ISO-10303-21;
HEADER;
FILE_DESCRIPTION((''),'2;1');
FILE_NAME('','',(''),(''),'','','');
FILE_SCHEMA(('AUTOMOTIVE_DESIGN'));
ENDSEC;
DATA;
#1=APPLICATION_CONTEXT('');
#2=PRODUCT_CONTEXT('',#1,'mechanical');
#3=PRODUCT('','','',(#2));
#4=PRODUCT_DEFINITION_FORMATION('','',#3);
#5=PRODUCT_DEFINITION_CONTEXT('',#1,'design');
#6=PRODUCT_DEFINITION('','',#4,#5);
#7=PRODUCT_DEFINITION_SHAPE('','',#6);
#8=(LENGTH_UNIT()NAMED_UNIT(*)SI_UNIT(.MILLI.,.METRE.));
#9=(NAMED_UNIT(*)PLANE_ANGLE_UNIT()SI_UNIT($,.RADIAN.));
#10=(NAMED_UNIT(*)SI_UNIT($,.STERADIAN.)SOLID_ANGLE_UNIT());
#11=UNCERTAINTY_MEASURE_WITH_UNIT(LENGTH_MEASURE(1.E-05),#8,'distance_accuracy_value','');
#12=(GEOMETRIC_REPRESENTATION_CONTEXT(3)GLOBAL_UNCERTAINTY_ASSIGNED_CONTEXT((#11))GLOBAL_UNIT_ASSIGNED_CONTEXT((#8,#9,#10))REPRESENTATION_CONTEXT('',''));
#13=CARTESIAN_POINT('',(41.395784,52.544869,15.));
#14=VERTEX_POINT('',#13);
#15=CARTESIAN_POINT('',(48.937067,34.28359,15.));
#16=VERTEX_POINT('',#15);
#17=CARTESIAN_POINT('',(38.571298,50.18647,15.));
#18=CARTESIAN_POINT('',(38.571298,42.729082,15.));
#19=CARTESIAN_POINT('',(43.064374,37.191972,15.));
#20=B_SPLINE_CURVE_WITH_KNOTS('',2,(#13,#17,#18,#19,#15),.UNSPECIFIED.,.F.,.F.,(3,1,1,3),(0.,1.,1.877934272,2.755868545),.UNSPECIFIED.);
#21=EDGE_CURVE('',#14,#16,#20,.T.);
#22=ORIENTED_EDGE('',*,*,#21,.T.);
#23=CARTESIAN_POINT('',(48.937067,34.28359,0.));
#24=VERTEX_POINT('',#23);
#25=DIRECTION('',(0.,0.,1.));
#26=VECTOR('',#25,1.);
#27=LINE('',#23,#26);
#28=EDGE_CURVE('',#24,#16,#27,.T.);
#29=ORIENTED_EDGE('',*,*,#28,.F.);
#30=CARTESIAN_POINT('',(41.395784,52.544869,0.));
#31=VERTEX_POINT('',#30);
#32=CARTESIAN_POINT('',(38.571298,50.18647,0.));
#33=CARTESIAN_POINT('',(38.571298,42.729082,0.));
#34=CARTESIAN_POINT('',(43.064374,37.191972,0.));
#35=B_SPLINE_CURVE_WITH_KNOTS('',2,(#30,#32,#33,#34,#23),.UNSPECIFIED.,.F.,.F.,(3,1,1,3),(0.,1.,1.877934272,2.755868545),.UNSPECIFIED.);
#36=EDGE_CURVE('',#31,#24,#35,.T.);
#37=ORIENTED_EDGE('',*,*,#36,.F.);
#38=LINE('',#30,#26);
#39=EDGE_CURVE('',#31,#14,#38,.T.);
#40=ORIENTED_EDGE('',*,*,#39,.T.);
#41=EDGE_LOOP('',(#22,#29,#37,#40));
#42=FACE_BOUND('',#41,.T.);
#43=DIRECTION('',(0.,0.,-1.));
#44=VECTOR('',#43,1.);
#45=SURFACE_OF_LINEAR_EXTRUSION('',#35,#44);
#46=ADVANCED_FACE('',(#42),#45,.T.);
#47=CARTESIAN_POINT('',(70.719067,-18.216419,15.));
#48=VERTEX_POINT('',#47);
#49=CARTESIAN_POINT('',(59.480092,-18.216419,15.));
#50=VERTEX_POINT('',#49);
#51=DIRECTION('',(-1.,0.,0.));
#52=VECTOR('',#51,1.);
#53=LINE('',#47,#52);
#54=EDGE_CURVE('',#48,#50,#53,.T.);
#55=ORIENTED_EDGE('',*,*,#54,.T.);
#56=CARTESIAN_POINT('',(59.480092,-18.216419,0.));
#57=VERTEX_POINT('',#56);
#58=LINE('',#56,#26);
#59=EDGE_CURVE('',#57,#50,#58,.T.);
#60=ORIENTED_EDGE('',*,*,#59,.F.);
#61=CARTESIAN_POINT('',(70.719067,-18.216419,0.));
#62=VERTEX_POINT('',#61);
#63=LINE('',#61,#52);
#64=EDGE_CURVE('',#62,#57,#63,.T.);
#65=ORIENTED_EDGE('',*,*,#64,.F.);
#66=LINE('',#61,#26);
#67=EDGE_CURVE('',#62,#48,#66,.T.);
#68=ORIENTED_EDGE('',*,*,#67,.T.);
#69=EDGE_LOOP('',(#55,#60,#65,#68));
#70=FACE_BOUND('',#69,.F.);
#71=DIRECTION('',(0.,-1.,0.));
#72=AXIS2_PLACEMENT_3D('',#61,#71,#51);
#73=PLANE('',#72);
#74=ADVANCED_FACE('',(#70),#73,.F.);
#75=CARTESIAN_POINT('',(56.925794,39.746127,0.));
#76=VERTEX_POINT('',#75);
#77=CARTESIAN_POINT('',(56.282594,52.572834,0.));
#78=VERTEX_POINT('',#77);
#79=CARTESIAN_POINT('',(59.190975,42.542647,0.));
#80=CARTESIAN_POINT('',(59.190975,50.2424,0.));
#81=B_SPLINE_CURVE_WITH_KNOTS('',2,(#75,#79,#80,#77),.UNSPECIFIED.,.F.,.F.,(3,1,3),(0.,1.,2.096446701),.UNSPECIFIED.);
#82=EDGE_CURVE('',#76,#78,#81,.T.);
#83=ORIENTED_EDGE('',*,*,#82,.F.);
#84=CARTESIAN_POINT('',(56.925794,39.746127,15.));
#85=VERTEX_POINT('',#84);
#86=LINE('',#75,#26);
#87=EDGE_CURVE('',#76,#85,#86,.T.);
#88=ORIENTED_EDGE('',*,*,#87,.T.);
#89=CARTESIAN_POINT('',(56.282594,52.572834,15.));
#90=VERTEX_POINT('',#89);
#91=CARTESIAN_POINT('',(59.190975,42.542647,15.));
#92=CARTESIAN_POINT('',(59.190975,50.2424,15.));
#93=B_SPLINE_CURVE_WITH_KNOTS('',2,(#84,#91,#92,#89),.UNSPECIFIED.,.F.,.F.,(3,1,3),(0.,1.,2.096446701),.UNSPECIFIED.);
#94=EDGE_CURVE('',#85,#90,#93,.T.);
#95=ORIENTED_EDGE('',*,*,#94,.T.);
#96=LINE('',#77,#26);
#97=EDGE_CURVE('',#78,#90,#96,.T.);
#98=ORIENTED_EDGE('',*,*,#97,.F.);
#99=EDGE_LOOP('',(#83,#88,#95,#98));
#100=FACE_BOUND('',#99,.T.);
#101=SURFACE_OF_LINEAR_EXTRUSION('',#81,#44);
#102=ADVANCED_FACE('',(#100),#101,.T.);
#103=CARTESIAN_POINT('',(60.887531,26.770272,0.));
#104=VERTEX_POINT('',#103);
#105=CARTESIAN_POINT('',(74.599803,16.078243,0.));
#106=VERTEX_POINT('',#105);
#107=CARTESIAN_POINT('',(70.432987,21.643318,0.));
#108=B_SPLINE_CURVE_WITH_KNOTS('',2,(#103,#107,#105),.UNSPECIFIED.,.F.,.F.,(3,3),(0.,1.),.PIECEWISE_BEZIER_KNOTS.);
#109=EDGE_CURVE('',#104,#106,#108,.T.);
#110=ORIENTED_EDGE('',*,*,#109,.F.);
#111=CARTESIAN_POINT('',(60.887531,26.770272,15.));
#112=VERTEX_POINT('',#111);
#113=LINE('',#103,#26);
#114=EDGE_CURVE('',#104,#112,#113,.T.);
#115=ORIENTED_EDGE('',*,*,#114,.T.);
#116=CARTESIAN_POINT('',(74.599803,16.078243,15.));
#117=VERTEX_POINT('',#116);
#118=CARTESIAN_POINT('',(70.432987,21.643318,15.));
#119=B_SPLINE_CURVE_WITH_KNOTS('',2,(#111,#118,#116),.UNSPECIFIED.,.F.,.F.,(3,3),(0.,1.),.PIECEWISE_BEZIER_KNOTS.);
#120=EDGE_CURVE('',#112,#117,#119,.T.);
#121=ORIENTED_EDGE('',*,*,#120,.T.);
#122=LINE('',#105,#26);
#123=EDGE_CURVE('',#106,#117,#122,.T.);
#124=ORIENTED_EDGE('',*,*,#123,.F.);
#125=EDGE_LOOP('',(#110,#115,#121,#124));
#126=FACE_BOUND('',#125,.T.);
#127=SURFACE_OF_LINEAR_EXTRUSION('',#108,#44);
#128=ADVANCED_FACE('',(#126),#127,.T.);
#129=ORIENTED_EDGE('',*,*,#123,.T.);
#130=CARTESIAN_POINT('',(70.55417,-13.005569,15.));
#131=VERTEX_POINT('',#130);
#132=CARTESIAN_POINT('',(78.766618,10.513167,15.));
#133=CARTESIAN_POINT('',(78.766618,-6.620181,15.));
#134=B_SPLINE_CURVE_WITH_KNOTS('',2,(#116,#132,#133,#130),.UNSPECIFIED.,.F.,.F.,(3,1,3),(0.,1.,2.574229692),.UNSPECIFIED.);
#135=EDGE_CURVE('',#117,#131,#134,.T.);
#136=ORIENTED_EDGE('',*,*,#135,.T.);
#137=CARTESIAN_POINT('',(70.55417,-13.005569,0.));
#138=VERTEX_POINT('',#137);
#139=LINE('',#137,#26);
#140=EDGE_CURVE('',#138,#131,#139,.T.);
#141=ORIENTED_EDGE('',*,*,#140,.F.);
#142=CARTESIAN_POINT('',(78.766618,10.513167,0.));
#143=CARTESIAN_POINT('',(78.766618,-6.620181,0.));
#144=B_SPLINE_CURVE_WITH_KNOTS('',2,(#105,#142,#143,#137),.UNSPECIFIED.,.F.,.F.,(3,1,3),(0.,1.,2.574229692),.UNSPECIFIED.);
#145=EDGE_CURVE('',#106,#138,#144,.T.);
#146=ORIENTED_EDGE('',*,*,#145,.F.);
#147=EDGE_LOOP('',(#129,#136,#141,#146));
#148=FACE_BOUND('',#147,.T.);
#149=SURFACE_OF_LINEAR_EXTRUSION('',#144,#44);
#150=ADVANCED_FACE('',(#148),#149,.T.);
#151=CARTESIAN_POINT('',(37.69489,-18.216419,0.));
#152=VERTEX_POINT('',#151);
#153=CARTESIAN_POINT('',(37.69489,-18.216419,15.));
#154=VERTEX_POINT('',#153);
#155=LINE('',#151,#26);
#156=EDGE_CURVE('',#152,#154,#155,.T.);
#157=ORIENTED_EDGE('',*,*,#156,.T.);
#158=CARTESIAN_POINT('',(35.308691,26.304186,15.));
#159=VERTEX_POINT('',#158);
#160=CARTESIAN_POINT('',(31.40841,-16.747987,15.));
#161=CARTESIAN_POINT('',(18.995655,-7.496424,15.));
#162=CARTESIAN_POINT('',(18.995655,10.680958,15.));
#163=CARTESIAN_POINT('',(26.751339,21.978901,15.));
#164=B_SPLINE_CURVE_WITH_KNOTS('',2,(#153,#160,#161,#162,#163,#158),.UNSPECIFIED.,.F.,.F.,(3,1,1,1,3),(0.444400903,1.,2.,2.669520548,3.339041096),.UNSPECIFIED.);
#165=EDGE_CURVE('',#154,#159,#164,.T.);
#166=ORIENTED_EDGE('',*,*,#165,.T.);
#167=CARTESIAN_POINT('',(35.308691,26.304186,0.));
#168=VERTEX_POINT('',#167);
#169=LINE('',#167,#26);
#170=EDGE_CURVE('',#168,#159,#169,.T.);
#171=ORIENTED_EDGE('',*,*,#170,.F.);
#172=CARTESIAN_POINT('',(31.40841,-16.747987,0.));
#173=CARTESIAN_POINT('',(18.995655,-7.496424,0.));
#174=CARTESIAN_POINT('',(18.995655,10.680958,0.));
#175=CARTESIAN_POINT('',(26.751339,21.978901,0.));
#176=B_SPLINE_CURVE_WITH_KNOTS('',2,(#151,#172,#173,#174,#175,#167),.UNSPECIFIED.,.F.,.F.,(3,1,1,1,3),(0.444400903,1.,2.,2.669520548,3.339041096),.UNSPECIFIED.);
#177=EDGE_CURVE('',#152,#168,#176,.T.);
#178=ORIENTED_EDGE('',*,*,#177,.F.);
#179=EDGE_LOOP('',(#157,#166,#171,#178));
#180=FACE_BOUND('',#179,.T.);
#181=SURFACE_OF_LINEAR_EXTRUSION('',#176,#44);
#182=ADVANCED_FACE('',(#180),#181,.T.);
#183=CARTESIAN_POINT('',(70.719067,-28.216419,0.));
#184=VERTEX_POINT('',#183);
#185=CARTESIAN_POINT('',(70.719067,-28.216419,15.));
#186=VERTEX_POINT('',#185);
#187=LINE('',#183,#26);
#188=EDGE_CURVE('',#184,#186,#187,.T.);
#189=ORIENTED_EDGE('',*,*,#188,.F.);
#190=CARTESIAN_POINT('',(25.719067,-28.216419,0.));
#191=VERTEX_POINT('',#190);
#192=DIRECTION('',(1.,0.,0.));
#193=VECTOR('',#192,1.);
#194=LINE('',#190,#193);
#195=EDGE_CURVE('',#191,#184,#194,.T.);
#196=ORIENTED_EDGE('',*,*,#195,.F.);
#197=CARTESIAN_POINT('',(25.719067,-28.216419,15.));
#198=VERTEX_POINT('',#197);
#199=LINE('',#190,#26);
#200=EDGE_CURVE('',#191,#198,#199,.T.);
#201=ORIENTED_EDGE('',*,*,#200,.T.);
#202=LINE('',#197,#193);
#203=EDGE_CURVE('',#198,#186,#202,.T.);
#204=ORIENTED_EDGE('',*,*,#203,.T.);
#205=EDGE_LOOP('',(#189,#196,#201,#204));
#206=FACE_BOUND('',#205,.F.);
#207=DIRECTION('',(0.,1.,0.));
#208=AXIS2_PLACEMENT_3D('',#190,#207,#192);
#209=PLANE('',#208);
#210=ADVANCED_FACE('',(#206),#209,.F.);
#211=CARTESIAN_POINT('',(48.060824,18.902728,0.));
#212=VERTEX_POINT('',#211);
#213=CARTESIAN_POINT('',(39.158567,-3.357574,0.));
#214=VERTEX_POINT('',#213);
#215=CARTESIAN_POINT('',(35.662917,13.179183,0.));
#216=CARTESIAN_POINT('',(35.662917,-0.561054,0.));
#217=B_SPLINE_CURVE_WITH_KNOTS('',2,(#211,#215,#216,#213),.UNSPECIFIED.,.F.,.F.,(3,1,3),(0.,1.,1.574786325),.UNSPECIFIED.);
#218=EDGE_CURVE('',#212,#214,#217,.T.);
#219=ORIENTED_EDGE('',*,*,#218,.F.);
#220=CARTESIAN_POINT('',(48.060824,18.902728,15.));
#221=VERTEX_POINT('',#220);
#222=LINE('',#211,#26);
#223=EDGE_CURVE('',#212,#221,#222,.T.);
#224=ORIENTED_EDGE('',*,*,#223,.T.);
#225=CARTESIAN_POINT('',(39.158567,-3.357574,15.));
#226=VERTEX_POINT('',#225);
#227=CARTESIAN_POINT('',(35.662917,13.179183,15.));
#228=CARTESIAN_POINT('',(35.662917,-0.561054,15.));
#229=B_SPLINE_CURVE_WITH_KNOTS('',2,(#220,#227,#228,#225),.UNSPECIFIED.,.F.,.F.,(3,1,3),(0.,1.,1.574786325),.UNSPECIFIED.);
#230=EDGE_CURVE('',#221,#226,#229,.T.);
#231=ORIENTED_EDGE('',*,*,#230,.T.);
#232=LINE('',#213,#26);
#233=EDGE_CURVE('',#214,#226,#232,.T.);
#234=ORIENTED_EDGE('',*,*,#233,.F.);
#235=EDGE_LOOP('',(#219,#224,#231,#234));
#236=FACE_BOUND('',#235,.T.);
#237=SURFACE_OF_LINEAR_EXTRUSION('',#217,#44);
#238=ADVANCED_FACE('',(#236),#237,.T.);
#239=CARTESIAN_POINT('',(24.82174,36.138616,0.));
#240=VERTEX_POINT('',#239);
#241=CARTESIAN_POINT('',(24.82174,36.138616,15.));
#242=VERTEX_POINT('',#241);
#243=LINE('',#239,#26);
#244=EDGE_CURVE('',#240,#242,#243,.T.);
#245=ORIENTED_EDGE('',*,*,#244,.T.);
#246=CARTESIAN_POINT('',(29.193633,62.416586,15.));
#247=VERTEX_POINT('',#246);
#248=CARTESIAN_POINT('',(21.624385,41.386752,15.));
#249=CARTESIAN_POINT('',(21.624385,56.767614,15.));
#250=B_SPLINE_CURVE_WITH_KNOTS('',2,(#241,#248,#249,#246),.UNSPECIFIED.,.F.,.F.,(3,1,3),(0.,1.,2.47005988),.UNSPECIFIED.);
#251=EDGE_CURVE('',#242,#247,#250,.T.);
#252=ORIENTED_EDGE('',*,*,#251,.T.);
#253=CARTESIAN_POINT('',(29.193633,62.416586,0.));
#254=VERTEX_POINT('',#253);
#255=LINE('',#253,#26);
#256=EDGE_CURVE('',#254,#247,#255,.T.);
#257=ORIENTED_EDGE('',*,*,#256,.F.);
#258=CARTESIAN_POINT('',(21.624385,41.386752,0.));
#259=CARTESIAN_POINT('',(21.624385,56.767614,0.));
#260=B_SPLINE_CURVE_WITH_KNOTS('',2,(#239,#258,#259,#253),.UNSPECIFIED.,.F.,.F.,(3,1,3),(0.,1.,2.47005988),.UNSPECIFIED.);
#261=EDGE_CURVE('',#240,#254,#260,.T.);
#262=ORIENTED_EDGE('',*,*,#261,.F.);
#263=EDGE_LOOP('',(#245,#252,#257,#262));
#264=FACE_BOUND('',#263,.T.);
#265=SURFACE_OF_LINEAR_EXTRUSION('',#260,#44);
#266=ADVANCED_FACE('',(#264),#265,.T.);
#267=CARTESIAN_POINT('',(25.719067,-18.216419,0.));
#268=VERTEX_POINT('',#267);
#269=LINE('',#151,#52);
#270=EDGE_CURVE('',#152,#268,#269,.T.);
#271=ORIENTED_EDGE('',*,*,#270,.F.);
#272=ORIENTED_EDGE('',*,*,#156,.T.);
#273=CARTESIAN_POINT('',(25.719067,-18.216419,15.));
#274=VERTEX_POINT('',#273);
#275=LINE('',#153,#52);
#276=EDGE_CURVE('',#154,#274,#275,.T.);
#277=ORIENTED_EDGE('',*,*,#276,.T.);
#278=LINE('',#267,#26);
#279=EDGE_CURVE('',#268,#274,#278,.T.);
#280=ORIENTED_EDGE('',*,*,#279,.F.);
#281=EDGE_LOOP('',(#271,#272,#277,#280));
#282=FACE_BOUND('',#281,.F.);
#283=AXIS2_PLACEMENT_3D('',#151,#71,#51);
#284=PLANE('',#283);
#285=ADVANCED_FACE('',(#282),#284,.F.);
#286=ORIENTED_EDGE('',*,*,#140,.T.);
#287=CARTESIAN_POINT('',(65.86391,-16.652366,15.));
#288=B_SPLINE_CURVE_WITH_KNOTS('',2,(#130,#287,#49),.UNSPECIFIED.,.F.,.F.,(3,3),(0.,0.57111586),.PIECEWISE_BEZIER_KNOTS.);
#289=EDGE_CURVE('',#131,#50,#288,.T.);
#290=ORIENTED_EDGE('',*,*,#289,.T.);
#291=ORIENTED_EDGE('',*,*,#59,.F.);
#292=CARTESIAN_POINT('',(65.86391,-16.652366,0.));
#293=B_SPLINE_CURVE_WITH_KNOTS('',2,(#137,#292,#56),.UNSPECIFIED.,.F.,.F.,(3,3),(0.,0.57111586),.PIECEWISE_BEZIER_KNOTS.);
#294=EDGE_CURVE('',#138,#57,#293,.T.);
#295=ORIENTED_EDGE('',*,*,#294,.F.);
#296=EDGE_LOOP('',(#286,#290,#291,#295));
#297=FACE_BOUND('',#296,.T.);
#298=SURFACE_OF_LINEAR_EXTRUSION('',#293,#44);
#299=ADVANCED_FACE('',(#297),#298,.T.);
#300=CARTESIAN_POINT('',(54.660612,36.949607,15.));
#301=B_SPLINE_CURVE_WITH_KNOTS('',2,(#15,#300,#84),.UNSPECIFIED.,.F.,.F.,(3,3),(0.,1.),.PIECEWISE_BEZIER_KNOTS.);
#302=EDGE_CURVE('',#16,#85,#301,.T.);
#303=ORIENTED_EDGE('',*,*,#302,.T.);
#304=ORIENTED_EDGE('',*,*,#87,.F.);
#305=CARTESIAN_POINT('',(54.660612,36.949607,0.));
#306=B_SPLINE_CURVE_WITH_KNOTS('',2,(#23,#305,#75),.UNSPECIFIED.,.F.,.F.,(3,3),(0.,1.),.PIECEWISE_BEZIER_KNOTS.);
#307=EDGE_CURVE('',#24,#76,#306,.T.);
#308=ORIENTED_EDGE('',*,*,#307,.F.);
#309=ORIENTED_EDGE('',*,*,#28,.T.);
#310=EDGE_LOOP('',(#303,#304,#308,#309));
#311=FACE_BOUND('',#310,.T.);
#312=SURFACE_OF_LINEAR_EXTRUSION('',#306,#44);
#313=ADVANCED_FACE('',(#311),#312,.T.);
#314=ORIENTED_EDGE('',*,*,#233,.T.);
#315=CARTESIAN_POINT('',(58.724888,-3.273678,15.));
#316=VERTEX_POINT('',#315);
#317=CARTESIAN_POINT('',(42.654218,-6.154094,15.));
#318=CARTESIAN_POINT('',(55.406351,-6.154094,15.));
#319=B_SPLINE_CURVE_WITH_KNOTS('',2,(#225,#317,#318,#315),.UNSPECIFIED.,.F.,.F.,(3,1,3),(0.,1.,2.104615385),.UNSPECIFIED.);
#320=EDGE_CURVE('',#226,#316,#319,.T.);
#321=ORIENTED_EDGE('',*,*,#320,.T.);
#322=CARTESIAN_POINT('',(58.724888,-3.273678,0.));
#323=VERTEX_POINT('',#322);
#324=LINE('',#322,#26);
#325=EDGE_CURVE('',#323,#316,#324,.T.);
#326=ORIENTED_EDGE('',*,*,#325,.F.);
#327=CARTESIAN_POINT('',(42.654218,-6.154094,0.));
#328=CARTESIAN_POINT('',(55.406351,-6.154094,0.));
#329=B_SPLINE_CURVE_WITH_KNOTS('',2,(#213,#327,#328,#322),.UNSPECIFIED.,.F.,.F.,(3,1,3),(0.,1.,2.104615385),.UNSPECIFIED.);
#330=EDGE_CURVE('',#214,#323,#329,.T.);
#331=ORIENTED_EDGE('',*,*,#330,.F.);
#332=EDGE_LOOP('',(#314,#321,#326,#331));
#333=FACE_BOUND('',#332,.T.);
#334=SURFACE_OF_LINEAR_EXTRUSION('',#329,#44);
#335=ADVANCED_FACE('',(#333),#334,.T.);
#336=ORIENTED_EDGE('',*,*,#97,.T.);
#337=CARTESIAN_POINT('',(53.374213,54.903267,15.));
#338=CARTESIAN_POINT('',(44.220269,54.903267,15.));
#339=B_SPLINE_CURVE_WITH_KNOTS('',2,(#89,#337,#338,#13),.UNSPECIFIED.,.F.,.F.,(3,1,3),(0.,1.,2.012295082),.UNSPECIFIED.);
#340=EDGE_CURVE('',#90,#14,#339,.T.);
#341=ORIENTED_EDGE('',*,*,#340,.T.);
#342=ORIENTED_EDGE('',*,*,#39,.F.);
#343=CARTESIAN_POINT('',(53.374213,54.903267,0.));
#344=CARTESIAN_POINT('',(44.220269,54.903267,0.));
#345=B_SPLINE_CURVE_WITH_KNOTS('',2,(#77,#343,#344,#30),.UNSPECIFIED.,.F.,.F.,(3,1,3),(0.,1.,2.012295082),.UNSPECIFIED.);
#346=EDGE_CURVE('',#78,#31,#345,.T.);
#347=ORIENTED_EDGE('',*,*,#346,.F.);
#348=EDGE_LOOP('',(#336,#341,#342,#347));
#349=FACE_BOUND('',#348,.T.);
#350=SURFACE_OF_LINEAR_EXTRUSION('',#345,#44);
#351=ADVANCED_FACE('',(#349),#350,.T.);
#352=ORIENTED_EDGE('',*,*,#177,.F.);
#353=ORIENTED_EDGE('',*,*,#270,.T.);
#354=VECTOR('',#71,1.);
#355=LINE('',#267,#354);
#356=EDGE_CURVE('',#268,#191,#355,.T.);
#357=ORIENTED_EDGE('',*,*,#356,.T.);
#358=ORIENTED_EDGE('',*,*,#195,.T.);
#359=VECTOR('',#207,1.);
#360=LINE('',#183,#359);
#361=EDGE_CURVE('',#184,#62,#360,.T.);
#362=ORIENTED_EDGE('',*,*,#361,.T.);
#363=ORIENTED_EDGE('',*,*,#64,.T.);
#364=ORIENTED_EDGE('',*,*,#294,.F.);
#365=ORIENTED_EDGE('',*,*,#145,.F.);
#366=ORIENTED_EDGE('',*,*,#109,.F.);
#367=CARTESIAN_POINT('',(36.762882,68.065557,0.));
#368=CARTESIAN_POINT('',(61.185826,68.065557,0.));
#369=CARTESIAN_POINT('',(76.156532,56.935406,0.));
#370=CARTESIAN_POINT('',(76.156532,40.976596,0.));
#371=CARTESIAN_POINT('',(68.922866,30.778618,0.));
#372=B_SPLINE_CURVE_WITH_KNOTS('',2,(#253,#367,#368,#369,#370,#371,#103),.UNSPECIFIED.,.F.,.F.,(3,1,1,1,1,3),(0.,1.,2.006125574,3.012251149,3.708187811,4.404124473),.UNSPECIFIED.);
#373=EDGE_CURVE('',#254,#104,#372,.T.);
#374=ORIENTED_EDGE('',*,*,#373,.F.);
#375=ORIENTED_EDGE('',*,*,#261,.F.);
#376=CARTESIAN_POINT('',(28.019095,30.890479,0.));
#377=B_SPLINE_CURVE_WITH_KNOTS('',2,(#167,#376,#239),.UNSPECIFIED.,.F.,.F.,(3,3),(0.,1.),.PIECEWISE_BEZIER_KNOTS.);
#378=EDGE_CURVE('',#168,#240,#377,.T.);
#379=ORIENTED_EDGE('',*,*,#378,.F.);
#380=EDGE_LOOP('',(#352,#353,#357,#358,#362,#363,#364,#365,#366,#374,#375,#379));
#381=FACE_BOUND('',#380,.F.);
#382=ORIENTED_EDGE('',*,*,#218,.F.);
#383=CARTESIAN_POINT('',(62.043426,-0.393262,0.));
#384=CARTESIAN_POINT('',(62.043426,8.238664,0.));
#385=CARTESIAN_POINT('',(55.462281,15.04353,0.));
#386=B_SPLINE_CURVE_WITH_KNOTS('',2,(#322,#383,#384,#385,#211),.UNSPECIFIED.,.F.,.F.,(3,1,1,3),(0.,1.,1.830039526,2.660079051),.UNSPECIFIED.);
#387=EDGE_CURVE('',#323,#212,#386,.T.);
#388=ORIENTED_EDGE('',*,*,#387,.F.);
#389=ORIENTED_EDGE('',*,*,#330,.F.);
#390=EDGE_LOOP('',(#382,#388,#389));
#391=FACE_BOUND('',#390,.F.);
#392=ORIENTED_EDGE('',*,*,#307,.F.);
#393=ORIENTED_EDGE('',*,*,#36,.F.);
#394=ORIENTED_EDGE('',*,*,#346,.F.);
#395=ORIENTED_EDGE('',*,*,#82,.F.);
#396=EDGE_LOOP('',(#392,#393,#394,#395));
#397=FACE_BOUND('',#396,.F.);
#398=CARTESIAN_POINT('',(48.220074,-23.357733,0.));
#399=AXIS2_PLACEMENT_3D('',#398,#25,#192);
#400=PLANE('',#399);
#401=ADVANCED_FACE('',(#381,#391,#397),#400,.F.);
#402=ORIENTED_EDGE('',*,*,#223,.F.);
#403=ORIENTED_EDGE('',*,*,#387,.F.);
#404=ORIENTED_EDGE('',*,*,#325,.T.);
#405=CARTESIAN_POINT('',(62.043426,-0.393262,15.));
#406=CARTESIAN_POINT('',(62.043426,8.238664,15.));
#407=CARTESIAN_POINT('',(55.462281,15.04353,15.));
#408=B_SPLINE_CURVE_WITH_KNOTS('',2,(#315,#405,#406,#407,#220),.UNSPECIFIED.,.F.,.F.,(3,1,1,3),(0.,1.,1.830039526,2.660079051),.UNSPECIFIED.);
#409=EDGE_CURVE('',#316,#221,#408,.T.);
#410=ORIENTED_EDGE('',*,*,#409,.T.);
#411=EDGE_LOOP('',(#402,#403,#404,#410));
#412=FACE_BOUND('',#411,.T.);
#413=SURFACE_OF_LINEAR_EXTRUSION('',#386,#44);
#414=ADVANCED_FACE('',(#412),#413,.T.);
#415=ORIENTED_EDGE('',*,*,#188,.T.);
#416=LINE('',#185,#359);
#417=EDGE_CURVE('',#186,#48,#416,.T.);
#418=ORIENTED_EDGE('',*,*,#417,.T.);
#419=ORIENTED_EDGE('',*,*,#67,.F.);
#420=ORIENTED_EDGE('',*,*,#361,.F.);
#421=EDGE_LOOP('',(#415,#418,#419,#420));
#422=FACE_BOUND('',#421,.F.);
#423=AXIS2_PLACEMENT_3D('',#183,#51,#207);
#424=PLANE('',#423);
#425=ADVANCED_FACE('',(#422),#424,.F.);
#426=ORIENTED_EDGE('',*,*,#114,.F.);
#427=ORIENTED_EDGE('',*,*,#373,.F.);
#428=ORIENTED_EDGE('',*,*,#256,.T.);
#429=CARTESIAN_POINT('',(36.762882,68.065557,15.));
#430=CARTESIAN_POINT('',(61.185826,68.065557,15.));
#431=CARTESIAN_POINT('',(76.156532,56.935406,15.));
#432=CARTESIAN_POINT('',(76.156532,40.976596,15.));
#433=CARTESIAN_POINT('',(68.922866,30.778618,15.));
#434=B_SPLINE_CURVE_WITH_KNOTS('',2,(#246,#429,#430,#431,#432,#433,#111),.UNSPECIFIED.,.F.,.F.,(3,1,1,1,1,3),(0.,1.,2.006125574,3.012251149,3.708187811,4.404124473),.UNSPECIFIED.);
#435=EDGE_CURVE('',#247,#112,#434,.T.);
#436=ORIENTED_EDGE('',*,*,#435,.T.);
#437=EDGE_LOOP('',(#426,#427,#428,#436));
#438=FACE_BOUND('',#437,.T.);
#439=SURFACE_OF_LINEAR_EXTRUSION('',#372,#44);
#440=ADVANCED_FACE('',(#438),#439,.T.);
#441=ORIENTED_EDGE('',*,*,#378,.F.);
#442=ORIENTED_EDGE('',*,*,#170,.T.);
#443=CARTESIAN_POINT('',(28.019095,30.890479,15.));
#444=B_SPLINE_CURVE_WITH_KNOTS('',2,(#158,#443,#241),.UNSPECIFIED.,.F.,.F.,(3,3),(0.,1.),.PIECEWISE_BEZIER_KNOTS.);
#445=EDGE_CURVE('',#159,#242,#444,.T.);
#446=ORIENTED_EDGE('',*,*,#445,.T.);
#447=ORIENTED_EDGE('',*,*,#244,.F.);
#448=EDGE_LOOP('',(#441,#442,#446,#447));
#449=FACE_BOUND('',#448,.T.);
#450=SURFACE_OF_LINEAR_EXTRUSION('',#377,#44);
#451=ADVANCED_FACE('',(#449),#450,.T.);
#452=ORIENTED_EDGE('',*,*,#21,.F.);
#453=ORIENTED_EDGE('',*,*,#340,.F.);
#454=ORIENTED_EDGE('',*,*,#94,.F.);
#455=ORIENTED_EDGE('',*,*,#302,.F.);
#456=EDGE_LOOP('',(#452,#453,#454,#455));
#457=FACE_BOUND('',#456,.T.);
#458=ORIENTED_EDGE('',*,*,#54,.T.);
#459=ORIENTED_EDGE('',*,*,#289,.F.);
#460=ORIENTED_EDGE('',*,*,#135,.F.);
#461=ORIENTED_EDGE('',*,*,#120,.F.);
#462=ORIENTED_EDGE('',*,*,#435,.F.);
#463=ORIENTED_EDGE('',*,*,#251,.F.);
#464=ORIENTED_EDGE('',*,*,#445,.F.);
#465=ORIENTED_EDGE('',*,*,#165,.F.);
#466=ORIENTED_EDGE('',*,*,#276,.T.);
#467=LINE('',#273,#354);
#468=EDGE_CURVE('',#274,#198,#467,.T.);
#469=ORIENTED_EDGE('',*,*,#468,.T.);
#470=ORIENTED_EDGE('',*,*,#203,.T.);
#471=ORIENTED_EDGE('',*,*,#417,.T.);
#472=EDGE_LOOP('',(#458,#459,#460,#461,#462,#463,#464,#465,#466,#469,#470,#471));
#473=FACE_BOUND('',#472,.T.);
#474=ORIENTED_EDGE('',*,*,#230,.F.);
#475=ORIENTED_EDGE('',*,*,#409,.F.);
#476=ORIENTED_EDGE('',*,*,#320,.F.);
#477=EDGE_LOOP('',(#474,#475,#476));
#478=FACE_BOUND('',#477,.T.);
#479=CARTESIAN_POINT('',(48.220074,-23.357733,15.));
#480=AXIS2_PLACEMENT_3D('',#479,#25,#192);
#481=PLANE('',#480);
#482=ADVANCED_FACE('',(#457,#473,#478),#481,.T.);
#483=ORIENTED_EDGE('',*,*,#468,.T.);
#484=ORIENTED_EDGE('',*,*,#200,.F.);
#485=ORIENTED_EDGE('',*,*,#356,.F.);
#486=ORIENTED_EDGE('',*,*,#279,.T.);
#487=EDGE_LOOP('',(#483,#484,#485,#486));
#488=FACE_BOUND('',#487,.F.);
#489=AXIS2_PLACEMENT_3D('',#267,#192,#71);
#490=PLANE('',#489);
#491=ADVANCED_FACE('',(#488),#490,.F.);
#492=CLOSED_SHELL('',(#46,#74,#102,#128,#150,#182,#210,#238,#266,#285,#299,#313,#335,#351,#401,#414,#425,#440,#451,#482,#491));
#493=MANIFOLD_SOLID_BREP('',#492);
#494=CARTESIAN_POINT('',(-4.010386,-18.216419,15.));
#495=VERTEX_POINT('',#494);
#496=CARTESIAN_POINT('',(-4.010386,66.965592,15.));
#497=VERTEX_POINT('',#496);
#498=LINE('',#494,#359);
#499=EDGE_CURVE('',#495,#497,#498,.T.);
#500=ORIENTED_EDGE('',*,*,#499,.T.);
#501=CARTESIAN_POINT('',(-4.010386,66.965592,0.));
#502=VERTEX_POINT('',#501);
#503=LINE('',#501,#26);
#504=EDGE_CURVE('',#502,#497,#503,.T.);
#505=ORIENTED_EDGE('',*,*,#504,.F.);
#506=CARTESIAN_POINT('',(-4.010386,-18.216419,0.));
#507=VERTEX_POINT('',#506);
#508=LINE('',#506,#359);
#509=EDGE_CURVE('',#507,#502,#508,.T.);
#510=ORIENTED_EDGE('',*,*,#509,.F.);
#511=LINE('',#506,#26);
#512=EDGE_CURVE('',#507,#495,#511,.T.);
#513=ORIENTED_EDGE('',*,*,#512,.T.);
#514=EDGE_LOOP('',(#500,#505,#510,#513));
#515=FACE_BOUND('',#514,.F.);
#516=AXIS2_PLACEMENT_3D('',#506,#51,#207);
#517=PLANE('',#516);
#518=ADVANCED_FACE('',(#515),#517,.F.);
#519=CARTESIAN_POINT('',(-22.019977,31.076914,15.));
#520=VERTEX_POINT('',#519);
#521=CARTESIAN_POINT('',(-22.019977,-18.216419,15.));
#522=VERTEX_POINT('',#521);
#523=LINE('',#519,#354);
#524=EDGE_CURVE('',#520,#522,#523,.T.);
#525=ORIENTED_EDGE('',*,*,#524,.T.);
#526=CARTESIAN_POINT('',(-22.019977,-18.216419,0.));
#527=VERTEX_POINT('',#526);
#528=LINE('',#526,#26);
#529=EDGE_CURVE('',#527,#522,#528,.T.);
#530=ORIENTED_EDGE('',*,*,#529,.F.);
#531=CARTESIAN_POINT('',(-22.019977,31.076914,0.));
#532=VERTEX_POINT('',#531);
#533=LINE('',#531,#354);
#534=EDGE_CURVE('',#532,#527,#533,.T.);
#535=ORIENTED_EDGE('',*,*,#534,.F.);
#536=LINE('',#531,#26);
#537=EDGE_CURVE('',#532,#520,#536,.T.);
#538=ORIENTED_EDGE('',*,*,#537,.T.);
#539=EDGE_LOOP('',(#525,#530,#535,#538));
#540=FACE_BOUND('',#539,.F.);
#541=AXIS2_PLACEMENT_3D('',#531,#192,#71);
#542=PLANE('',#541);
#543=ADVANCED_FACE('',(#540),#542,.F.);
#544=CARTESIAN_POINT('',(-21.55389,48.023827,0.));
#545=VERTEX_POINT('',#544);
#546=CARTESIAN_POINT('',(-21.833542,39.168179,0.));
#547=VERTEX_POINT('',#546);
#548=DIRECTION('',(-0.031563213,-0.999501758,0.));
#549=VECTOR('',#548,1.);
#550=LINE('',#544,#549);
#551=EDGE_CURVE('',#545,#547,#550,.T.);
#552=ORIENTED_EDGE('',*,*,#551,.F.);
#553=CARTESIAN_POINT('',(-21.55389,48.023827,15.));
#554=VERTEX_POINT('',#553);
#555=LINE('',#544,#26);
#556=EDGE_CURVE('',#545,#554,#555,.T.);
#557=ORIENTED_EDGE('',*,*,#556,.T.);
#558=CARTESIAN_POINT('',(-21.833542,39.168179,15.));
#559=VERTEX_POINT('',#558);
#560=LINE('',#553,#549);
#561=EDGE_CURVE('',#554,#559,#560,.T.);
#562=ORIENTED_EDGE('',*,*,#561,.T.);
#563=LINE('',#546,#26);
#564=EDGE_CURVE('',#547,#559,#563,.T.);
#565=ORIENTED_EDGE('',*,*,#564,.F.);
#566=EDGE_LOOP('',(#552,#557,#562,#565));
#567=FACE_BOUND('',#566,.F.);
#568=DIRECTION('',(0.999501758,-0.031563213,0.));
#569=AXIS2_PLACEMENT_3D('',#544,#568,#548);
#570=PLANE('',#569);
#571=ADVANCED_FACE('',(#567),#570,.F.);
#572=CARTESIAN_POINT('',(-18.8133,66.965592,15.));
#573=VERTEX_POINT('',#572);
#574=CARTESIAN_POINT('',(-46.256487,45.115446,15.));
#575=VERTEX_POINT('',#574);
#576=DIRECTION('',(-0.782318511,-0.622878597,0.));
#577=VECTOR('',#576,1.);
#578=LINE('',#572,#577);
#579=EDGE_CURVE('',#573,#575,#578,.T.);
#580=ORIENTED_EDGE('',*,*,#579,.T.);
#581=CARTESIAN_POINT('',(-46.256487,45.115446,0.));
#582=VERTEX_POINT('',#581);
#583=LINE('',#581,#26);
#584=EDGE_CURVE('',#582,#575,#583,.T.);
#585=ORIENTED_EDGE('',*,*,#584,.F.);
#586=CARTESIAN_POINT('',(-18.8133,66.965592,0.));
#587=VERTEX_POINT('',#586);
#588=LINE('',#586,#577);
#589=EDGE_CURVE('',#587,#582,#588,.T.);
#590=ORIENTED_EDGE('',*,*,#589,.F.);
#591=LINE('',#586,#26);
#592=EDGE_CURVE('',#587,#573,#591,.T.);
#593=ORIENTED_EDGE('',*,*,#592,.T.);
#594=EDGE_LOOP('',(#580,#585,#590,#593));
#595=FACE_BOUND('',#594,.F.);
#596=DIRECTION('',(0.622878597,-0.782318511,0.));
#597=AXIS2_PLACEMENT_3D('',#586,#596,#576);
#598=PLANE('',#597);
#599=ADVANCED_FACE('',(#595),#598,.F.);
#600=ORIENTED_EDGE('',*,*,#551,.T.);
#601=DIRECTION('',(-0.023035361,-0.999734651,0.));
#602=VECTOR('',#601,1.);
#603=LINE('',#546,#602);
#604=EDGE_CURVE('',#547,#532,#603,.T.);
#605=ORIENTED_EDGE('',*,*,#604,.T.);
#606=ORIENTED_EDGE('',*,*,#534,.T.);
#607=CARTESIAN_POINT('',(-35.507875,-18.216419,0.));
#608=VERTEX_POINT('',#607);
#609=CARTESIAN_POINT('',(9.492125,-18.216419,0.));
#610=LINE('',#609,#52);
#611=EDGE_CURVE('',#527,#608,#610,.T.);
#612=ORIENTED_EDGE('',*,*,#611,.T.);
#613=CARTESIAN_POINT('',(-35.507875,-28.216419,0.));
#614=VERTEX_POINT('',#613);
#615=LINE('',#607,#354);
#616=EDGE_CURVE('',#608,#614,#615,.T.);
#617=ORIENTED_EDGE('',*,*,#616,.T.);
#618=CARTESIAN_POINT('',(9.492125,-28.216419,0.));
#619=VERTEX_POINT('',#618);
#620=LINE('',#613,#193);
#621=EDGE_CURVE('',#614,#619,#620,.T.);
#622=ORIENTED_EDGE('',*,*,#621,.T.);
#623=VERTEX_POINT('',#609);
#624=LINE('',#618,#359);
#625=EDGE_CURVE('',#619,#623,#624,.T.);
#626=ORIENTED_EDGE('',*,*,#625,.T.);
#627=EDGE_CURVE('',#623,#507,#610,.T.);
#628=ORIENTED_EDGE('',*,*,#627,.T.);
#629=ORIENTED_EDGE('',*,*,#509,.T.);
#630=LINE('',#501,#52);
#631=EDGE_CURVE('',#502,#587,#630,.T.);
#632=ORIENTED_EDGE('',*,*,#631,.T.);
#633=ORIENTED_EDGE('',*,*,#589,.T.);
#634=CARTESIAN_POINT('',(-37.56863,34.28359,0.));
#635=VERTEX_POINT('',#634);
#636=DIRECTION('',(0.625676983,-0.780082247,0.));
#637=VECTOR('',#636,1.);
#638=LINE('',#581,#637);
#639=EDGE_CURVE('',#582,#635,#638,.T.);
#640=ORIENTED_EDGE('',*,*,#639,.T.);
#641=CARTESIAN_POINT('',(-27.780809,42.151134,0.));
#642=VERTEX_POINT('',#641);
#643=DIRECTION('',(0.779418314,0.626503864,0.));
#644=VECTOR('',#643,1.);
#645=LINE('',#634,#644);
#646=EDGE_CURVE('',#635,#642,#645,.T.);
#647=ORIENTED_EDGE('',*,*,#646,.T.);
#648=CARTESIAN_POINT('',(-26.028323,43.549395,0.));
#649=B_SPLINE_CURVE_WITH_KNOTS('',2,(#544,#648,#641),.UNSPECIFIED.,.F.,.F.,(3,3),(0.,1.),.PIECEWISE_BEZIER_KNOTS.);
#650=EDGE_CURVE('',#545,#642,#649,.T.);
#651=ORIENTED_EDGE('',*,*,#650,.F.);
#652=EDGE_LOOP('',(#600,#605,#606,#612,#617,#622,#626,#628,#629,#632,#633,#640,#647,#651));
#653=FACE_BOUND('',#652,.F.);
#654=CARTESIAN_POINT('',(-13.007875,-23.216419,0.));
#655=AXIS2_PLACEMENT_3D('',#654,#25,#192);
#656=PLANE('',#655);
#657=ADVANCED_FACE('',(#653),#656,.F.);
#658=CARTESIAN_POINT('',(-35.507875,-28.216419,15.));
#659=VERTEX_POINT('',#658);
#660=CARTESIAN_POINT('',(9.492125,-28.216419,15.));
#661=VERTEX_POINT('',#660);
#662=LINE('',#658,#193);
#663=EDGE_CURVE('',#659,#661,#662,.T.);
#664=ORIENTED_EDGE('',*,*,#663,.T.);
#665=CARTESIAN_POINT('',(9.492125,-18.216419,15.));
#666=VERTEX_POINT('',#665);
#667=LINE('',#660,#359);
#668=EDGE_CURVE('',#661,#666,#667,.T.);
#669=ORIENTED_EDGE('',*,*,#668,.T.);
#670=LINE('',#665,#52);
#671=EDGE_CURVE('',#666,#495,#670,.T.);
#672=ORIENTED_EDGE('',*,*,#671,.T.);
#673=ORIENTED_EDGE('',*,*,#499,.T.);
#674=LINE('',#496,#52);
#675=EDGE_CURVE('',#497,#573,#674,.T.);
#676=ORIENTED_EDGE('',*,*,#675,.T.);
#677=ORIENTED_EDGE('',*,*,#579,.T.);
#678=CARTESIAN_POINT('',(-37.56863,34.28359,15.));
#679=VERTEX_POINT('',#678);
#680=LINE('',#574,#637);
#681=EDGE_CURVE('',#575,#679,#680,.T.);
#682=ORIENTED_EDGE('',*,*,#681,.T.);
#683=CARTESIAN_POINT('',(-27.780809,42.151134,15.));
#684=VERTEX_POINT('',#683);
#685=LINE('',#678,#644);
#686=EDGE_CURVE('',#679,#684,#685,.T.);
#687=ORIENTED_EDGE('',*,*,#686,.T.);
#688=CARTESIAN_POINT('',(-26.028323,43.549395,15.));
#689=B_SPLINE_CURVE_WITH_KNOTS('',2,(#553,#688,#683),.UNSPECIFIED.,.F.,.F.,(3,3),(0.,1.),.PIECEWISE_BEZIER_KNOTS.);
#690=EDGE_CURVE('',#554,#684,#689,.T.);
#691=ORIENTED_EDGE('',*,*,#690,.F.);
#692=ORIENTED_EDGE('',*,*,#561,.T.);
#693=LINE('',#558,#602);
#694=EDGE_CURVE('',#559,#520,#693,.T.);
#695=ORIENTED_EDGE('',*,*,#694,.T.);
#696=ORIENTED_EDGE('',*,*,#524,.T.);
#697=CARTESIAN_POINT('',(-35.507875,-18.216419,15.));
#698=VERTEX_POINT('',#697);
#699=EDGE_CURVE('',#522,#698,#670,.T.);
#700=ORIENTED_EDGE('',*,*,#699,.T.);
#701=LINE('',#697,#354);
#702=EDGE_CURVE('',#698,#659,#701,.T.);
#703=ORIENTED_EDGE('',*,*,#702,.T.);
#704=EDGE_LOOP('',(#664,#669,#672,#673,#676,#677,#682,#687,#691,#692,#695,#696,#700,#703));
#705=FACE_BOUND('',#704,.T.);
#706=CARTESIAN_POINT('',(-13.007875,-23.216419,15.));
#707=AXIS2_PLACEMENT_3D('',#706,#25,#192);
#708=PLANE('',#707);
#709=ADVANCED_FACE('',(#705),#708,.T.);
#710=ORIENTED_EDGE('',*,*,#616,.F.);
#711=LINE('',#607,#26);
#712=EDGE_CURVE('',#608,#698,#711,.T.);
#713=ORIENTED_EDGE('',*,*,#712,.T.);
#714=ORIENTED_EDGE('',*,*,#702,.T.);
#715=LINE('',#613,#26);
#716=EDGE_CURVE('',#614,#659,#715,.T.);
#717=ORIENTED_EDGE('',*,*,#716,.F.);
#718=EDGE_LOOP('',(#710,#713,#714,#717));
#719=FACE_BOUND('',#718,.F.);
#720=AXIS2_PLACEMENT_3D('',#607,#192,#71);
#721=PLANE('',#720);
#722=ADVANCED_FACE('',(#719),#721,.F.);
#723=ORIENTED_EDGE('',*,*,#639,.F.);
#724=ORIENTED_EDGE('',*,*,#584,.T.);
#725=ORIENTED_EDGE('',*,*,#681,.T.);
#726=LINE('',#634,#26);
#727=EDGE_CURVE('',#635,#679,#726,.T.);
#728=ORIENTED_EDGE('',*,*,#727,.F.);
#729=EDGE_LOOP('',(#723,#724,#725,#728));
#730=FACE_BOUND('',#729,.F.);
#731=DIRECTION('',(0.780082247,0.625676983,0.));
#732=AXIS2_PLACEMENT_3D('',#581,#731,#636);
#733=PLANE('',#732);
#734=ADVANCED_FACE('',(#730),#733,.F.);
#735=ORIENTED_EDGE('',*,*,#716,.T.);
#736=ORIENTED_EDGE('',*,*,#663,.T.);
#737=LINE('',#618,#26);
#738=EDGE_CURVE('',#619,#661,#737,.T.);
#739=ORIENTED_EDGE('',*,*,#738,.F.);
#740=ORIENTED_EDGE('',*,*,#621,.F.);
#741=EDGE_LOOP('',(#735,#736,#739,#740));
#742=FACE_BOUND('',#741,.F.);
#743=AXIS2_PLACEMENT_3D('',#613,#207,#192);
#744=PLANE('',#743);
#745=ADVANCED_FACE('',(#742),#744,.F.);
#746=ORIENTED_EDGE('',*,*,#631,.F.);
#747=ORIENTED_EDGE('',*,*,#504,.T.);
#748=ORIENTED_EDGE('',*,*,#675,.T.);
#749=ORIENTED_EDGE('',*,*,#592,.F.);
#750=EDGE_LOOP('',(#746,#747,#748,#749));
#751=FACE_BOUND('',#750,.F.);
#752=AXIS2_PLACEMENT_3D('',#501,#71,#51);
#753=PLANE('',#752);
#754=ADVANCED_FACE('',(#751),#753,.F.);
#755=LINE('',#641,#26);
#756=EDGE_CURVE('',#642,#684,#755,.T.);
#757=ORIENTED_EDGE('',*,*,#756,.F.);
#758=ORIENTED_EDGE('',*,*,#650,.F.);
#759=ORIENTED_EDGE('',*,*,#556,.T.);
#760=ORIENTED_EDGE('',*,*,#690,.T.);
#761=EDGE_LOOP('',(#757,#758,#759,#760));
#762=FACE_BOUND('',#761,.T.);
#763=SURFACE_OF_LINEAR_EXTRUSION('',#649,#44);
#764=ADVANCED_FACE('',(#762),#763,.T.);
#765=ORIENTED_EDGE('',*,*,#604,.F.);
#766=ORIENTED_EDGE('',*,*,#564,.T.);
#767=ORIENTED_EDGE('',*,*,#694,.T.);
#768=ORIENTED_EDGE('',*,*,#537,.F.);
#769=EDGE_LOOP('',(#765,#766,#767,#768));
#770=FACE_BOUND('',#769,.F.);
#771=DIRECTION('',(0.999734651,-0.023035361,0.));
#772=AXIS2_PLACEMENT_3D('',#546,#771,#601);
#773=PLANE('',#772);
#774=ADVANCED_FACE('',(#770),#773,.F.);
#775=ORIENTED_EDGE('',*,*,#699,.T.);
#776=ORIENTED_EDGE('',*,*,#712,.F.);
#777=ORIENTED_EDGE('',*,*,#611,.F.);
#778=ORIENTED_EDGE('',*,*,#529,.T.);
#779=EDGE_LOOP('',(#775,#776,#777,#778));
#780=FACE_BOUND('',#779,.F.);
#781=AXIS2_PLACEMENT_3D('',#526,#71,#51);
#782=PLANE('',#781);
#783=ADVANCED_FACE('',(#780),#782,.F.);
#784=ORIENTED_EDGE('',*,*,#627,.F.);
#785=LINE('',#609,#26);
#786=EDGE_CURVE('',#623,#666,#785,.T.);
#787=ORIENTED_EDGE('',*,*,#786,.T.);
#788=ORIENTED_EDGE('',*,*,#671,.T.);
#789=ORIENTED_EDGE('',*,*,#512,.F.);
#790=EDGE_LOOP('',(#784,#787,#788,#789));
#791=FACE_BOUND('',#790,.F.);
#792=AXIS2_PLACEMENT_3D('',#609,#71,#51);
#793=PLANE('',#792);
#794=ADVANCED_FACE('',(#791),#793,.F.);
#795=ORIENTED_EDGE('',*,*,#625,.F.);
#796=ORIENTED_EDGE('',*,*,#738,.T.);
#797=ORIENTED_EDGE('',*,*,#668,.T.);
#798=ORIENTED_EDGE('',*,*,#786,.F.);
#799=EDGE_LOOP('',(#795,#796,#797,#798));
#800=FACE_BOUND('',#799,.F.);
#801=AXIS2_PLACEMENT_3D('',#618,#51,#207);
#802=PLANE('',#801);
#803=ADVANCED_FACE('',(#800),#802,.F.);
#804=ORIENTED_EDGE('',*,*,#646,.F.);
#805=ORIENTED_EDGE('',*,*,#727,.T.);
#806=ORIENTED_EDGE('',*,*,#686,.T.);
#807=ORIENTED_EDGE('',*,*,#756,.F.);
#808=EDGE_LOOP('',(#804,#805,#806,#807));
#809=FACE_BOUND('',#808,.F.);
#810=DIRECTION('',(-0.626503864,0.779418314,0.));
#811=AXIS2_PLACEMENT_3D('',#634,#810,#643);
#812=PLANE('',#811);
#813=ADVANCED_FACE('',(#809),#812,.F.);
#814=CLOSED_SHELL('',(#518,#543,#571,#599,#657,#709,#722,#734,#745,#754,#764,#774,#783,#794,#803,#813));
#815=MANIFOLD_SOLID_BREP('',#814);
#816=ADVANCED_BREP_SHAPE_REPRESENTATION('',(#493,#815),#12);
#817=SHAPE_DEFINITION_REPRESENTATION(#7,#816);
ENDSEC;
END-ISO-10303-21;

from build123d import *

# Parameters (mm, degrees)
F1_DEPTH = 15


with BuildPart() as f1:
    # F0 (on Top) → F1 (new body)
    with BuildSketch(Plane.XY):
        Polygon((-22.0199770812, -18.2164191203), (-35.5078747675, -18.2164191203), (-35.5078747675, -28.2164191203), (9.4921252325, -28.2164191203), (9.4921252325, -18.2164191203), (-4.010385738, -18.2164191203), align=None)
        with BuildLine():
            Line((-22.0199770812, 31.0769137073), (-22.0199770812, -18.2164191203))
            Line((-22.0199770812, -18.2164191203), (-4.010385738, -18.2164191203))
            Line((-4.010385738, -18.2164191203), (-4.010385738, 66.9655921087))
            Line((-4.010385738, 66.9655921087), (-18.8133003617, 66.9655921087))
            Line((-18.8133003617, 66.9655921087), (-46.2564871704, 45.1154460898))
            Line((-46.2564871704, 45.1154460898), (-37.5686304769, 34.2835904268))
            Line((-37.5686304769, 34.2835904268), (-27.7808090947, 42.1511344712))
            add(Edge.make_bspline(
                [(-21.5538903487, 48.0238273005), (-26.0283229806, 43.5493946686), (-27.7808090947, 42.1511344712)],
                knots=[0, 0, 0, 1, 1, 1], degree=2))
            Line((-21.5538903487, 48.0238273005), (-21.8335423882, 39.1681793833))
            Line((-21.8335423882, 39.1681793833), (-22.0199770812, 31.0769137073))
        make_face()
        with BuildLine():
            Line((37.6948895546, -18.2164191203), (25.7190672784, -18.2164191203))
            Line((25.7190672784, -18.2164191203), (25.7190672784, -28.2164191203))
            Line((25.7190672784, -28.2164191203), (70.7190672784, -28.2164191203))
            Line((70.7190672784, -28.2164191203), (70.7190672784, -18.2164191203))
            Line((70.7190672784, -18.2164191203), (59.4800917066, -18.2164191203))
            add(Edge.make_bspline(
                [(59.4800917066, -18.2164191203), (54.6861107626, -19.3909576862), (48.9370670724, -19.3909576862)],
                knots=[0.5711158597, 0.5711158597, 0.5711158597, 1, 1, 1], degree=2))
            add(Edge.make_bspline(
                [(48.9370670724, -19.3909576862), (42.7231861219, -19.3909576862), (37.6948895546, -18.2164191203)],
                knots=[0, 0, 0, 0.4444009035, 0.4444009035, 0.4444009035], degree=2))
        make_face()
        with BuildLine():
            add(Edge.make_bspline(
                [(37.6948895546, -18.2164191203), (31.4084103688, -16.7479869886), (26.9750602377, -13.4436909797)],
                knots=[0.4444009035, 0.4444009035, 0.4444009035, 1, 1, 1], degree=2))
            Line((37.6948895546, -18.2164191203), (59.4800917066, -18.2164191203))
            add(Edge.make_bspline(
                [(70.554169725, -13.0055694511), (65.8639102964, -16.6523659422), (59.4800917066, -18.2164191203)],
                knots=[0, 0, 0, 0.5711158597, 0.5711158597, 0.5711158597], degree=2))
            add(Edge.make_bspline(
                [(78.7666179514, 3.8574485302), (78.7666179514, -6.6201812161), (70.554169725, -13.0055694511)],
                knots=[0, 0, 0, 1, 1, 1], degree=2))
            add(Edge.make_bspline(
                [(74.599802563, 16.0782426559), (78.7666179514, 10.5131670701), (78.7666179514, 3.8574485302)],
                knots=[0, 0, 0, 1, 1, 1], degree=2))
            add(Edge.make_bspline(
                [(60.8875308933, 26.7702722992), (70.4329871746, 21.6433182418), (74.599802563, 16.0782426559)],
                knots=[0, 0, 0, 1, 1, 1], degree=2))
            add(Edge.make_bspline(
                [(72.5396992054, 35.8776070519), (68.9228661613, 30.7786181985), (60.8875308933, 26.7702722992)],
                knots=[0, 0, 0, 1, 1, 1], degree=2))
            add(Edge.make_bspline(
                [(76.1565322495, 47.5018101601), (76.1565322495, 40.9765959053), (72.5396992054, 35.8776070519)],
                knots=[0, 0, 0, 1, 1, 1], degree=2))
            add(Edge.make_bspline(
                [(68.6711793258, 62.5004812115), (76.1565322495, 56.9354056256), (76.1565322495, 47.5018101601)],
                knots=[0, 0, 0, 1, 1, 1], degree=2))
            add(Edge.make_bspline(
                [(48.9370670724, 68.0655567974), (61.1858264021, 68.0655567974), (68.6711793258, 62.5004812115)],
                knots=[0, 0, 0, 1, 1, 1], degree=2))
            add(Edge.make_bspline(
                [(29.1936330843, 62.4165855996), (36.7628816199, 68.0655567974), (48.9370670724, 68.0655567974)],
                knots=[0, 0, 0, 1, 1, 1], degree=2))
            add(Edge.make_bspline(
                [(21.6243845487, 47.6136709759), (21.6243845487, 56.7676144019), (29.1936330843, 62.4165855996)],
                knots=[0, 0, 0, 1, 1, 1], degree=2))
            add(Edge.make_bspline(
                [(24.8217395336, 36.1386156221), (21.6243845487, 41.3867522299), (21.6243845487, 47.6136709759)],
                knots=[0, 0, 0, 1, 1, 1], degree=2))
            add(Edge.make_bspline(
                [(35.3086910145, 26.3041855667), (28.0190945184, 30.8904790143), (24.8217395336, 36.1386156221)],
                knots=[0, 0, 0, 1, 1, 1], degree=2))
            add(Edge.make_bspline(
                [(22.8734969918, 16.3299294915), (26.7513386061, 21.9789006892), (35.3086910145, 26.3041855667)],
                knots=[0, 0, 0, 1, 1, 1], degree=2))
            add(Edge.make_bspline(
                [(18.9956553775, 3.3913617977), (18.9956553775, 10.6809582938), (22.8734969918, 16.3299294915)],
                knots=[0, 0, 0, 1, 1, 1], degree=2))
            add(Edge.make_bspline(
                [(26.9750602377, -13.4436909797), (18.9956553775, -7.4964242732), (18.9956553775, 3.3913617977)],
                knots=[0, 0, 0, 1, 1, 1], degree=2))
        make_face()
        with BuildLine():
            add(Edge.make_bspline(
                [(35.6629169312, 4.4540395478), (35.6629169312, -0.5610536938), (39.1585674248, -3.3575740887)],
                knots=[0, 0, 0, 1, 1, 1], degree=2))
            add(Edge.make_bspline(
                [(48.0608240153, 18.9027282548), (35.6629169312, 13.1791831799), (35.6629169312, 4.4540395478)],
                knots=[0, 0, 0, 1, 1, 1], degree=2))
            add(Edge.make_bspline(
                [(58.7528536585, 11.6410969627), (55.4622813272, 15.0435301098), (48.0608240153, 18.9027282548)],
                knots=[0, 0, 0, 1, 1, 1], degree=2))
            add(Edge.make_bspline(
                [(62.0434259899, 4.3235352627), (62.0434259899, 8.2386638155), (58.7528536585, 11.6410969627)],
                knots=[0, 0, 0, 1, 1, 1], degree=2))
            add(Edge.make_bspline(
                [(58.7248884546, -3.2736784769), (62.0434259899, -0.3932624701), (62.0434259899, 4.3235352627)],
                knots=[0, 0, 0, 1, 1, 1], degree=2))
            add(Edge.make_bspline(
                [(48.7133454408, -6.1540944836), (55.4063509193, -6.1540944836), (58.7248884546, -3.2736784769)],
                knots=[0, 0, 0, 1, 1, 1], degree=2))
            add(Edge.make_bspline(
                [(39.1585674248, -3.3575740887), (42.6542179185, -6.1540944836), (48.7133454408, -6.1540944836)],
                knots=[0, 0, 0, 1, 1, 1], degree=2))
        make_face(mode=Mode.SUBTRACT)
        with BuildLine():
            add(Edge.make_bspline(
                [(48.8252062566, 54.903267472), (44.2202693396, 54.903267472), (41.3957837408, 52.5448686056)],
                knots=[0, 0, 0, 1, 1, 1], degree=2))
            add(Edge.make_bspline(
                [(56.2825939763, 52.5728338095), (53.3742127656, 54.903267472), (48.8252062566, 54.903267472)],
                knots=[0, 0, 0, 1, 1, 1], degree=2))
            add(Edge.make_bspline(
                [(59.1909751871, 46.2154107784), (59.1909751871, 50.2424001471), (56.2825939763, 52.5728338095)],
                knots=[0, 0, 0, 1, 1, 1], degree=2))
            add(Edge.make_bspline(
                [(56.9257936672, 39.7461269315), (59.1909751871, 42.5426473265), (59.1909751871, 46.2154107784)],
                knots=[0, 0, 0, 1, 1, 1], degree=2))
            add(Edge.make_bspline(
                [(48.9370670724, 34.2835904268), (54.6606121473, 36.9496065366), (56.9257936672, 39.7461269315)],
                knots=[0, 0, 0, 1, 1, 1], degree=2))
            add(Edge.make_bspline(
                [(40.8178361925, 39.9605268285), (43.0643742431, 37.1919716375), (48.9370670724, 34.2835904268)],
                knots=[0, 0, 0, 1, 1, 1], degree=2))
            add(Edge.make_bspline(
                [(38.5712981419, 46.2154107784), (38.5712981419, 42.7290820195), (40.8178361925, 39.9605268285)],
                knots=[0, 0, 0, 1, 1, 1], degree=2))
            add(Edge.make_bspline(
                [(41.3957837408, 52.5448686056), (38.5712981419, 50.1864697392), (38.5712981419, 46.2154107784)],
                knots=[0, 0, 0, 1, 1, 1], degree=2))
        make_face(mode=Mode.SUBTRACT)
        with BuildLine():
            Line((59.4800917066, -18.2164191203), (37.6948895546, -18.2164191203))
            add(Edge.make_bspline(
                [(48.9370670724, -19.3909576862), (42.7231861219, -19.3909576862), (37.6948895546, -18.2164191203)],
                knots=[0, 0, 0, 0.4444009035, 0.4444009035, 0.4444009035], degree=2))
            add(Edge.make_bspline(
                [(59.4800917066, -18.2164191203), (54.6861107626, -19.3909576862), (48.9370670724, -19.3909576862)],
                knots=[0.5711158597, 0.5711158597, 0.5711158597, 1, 1, 1], degree=2))
        make_face()
    extrude(amount=F1_DEPTH)


solid = f1.part
